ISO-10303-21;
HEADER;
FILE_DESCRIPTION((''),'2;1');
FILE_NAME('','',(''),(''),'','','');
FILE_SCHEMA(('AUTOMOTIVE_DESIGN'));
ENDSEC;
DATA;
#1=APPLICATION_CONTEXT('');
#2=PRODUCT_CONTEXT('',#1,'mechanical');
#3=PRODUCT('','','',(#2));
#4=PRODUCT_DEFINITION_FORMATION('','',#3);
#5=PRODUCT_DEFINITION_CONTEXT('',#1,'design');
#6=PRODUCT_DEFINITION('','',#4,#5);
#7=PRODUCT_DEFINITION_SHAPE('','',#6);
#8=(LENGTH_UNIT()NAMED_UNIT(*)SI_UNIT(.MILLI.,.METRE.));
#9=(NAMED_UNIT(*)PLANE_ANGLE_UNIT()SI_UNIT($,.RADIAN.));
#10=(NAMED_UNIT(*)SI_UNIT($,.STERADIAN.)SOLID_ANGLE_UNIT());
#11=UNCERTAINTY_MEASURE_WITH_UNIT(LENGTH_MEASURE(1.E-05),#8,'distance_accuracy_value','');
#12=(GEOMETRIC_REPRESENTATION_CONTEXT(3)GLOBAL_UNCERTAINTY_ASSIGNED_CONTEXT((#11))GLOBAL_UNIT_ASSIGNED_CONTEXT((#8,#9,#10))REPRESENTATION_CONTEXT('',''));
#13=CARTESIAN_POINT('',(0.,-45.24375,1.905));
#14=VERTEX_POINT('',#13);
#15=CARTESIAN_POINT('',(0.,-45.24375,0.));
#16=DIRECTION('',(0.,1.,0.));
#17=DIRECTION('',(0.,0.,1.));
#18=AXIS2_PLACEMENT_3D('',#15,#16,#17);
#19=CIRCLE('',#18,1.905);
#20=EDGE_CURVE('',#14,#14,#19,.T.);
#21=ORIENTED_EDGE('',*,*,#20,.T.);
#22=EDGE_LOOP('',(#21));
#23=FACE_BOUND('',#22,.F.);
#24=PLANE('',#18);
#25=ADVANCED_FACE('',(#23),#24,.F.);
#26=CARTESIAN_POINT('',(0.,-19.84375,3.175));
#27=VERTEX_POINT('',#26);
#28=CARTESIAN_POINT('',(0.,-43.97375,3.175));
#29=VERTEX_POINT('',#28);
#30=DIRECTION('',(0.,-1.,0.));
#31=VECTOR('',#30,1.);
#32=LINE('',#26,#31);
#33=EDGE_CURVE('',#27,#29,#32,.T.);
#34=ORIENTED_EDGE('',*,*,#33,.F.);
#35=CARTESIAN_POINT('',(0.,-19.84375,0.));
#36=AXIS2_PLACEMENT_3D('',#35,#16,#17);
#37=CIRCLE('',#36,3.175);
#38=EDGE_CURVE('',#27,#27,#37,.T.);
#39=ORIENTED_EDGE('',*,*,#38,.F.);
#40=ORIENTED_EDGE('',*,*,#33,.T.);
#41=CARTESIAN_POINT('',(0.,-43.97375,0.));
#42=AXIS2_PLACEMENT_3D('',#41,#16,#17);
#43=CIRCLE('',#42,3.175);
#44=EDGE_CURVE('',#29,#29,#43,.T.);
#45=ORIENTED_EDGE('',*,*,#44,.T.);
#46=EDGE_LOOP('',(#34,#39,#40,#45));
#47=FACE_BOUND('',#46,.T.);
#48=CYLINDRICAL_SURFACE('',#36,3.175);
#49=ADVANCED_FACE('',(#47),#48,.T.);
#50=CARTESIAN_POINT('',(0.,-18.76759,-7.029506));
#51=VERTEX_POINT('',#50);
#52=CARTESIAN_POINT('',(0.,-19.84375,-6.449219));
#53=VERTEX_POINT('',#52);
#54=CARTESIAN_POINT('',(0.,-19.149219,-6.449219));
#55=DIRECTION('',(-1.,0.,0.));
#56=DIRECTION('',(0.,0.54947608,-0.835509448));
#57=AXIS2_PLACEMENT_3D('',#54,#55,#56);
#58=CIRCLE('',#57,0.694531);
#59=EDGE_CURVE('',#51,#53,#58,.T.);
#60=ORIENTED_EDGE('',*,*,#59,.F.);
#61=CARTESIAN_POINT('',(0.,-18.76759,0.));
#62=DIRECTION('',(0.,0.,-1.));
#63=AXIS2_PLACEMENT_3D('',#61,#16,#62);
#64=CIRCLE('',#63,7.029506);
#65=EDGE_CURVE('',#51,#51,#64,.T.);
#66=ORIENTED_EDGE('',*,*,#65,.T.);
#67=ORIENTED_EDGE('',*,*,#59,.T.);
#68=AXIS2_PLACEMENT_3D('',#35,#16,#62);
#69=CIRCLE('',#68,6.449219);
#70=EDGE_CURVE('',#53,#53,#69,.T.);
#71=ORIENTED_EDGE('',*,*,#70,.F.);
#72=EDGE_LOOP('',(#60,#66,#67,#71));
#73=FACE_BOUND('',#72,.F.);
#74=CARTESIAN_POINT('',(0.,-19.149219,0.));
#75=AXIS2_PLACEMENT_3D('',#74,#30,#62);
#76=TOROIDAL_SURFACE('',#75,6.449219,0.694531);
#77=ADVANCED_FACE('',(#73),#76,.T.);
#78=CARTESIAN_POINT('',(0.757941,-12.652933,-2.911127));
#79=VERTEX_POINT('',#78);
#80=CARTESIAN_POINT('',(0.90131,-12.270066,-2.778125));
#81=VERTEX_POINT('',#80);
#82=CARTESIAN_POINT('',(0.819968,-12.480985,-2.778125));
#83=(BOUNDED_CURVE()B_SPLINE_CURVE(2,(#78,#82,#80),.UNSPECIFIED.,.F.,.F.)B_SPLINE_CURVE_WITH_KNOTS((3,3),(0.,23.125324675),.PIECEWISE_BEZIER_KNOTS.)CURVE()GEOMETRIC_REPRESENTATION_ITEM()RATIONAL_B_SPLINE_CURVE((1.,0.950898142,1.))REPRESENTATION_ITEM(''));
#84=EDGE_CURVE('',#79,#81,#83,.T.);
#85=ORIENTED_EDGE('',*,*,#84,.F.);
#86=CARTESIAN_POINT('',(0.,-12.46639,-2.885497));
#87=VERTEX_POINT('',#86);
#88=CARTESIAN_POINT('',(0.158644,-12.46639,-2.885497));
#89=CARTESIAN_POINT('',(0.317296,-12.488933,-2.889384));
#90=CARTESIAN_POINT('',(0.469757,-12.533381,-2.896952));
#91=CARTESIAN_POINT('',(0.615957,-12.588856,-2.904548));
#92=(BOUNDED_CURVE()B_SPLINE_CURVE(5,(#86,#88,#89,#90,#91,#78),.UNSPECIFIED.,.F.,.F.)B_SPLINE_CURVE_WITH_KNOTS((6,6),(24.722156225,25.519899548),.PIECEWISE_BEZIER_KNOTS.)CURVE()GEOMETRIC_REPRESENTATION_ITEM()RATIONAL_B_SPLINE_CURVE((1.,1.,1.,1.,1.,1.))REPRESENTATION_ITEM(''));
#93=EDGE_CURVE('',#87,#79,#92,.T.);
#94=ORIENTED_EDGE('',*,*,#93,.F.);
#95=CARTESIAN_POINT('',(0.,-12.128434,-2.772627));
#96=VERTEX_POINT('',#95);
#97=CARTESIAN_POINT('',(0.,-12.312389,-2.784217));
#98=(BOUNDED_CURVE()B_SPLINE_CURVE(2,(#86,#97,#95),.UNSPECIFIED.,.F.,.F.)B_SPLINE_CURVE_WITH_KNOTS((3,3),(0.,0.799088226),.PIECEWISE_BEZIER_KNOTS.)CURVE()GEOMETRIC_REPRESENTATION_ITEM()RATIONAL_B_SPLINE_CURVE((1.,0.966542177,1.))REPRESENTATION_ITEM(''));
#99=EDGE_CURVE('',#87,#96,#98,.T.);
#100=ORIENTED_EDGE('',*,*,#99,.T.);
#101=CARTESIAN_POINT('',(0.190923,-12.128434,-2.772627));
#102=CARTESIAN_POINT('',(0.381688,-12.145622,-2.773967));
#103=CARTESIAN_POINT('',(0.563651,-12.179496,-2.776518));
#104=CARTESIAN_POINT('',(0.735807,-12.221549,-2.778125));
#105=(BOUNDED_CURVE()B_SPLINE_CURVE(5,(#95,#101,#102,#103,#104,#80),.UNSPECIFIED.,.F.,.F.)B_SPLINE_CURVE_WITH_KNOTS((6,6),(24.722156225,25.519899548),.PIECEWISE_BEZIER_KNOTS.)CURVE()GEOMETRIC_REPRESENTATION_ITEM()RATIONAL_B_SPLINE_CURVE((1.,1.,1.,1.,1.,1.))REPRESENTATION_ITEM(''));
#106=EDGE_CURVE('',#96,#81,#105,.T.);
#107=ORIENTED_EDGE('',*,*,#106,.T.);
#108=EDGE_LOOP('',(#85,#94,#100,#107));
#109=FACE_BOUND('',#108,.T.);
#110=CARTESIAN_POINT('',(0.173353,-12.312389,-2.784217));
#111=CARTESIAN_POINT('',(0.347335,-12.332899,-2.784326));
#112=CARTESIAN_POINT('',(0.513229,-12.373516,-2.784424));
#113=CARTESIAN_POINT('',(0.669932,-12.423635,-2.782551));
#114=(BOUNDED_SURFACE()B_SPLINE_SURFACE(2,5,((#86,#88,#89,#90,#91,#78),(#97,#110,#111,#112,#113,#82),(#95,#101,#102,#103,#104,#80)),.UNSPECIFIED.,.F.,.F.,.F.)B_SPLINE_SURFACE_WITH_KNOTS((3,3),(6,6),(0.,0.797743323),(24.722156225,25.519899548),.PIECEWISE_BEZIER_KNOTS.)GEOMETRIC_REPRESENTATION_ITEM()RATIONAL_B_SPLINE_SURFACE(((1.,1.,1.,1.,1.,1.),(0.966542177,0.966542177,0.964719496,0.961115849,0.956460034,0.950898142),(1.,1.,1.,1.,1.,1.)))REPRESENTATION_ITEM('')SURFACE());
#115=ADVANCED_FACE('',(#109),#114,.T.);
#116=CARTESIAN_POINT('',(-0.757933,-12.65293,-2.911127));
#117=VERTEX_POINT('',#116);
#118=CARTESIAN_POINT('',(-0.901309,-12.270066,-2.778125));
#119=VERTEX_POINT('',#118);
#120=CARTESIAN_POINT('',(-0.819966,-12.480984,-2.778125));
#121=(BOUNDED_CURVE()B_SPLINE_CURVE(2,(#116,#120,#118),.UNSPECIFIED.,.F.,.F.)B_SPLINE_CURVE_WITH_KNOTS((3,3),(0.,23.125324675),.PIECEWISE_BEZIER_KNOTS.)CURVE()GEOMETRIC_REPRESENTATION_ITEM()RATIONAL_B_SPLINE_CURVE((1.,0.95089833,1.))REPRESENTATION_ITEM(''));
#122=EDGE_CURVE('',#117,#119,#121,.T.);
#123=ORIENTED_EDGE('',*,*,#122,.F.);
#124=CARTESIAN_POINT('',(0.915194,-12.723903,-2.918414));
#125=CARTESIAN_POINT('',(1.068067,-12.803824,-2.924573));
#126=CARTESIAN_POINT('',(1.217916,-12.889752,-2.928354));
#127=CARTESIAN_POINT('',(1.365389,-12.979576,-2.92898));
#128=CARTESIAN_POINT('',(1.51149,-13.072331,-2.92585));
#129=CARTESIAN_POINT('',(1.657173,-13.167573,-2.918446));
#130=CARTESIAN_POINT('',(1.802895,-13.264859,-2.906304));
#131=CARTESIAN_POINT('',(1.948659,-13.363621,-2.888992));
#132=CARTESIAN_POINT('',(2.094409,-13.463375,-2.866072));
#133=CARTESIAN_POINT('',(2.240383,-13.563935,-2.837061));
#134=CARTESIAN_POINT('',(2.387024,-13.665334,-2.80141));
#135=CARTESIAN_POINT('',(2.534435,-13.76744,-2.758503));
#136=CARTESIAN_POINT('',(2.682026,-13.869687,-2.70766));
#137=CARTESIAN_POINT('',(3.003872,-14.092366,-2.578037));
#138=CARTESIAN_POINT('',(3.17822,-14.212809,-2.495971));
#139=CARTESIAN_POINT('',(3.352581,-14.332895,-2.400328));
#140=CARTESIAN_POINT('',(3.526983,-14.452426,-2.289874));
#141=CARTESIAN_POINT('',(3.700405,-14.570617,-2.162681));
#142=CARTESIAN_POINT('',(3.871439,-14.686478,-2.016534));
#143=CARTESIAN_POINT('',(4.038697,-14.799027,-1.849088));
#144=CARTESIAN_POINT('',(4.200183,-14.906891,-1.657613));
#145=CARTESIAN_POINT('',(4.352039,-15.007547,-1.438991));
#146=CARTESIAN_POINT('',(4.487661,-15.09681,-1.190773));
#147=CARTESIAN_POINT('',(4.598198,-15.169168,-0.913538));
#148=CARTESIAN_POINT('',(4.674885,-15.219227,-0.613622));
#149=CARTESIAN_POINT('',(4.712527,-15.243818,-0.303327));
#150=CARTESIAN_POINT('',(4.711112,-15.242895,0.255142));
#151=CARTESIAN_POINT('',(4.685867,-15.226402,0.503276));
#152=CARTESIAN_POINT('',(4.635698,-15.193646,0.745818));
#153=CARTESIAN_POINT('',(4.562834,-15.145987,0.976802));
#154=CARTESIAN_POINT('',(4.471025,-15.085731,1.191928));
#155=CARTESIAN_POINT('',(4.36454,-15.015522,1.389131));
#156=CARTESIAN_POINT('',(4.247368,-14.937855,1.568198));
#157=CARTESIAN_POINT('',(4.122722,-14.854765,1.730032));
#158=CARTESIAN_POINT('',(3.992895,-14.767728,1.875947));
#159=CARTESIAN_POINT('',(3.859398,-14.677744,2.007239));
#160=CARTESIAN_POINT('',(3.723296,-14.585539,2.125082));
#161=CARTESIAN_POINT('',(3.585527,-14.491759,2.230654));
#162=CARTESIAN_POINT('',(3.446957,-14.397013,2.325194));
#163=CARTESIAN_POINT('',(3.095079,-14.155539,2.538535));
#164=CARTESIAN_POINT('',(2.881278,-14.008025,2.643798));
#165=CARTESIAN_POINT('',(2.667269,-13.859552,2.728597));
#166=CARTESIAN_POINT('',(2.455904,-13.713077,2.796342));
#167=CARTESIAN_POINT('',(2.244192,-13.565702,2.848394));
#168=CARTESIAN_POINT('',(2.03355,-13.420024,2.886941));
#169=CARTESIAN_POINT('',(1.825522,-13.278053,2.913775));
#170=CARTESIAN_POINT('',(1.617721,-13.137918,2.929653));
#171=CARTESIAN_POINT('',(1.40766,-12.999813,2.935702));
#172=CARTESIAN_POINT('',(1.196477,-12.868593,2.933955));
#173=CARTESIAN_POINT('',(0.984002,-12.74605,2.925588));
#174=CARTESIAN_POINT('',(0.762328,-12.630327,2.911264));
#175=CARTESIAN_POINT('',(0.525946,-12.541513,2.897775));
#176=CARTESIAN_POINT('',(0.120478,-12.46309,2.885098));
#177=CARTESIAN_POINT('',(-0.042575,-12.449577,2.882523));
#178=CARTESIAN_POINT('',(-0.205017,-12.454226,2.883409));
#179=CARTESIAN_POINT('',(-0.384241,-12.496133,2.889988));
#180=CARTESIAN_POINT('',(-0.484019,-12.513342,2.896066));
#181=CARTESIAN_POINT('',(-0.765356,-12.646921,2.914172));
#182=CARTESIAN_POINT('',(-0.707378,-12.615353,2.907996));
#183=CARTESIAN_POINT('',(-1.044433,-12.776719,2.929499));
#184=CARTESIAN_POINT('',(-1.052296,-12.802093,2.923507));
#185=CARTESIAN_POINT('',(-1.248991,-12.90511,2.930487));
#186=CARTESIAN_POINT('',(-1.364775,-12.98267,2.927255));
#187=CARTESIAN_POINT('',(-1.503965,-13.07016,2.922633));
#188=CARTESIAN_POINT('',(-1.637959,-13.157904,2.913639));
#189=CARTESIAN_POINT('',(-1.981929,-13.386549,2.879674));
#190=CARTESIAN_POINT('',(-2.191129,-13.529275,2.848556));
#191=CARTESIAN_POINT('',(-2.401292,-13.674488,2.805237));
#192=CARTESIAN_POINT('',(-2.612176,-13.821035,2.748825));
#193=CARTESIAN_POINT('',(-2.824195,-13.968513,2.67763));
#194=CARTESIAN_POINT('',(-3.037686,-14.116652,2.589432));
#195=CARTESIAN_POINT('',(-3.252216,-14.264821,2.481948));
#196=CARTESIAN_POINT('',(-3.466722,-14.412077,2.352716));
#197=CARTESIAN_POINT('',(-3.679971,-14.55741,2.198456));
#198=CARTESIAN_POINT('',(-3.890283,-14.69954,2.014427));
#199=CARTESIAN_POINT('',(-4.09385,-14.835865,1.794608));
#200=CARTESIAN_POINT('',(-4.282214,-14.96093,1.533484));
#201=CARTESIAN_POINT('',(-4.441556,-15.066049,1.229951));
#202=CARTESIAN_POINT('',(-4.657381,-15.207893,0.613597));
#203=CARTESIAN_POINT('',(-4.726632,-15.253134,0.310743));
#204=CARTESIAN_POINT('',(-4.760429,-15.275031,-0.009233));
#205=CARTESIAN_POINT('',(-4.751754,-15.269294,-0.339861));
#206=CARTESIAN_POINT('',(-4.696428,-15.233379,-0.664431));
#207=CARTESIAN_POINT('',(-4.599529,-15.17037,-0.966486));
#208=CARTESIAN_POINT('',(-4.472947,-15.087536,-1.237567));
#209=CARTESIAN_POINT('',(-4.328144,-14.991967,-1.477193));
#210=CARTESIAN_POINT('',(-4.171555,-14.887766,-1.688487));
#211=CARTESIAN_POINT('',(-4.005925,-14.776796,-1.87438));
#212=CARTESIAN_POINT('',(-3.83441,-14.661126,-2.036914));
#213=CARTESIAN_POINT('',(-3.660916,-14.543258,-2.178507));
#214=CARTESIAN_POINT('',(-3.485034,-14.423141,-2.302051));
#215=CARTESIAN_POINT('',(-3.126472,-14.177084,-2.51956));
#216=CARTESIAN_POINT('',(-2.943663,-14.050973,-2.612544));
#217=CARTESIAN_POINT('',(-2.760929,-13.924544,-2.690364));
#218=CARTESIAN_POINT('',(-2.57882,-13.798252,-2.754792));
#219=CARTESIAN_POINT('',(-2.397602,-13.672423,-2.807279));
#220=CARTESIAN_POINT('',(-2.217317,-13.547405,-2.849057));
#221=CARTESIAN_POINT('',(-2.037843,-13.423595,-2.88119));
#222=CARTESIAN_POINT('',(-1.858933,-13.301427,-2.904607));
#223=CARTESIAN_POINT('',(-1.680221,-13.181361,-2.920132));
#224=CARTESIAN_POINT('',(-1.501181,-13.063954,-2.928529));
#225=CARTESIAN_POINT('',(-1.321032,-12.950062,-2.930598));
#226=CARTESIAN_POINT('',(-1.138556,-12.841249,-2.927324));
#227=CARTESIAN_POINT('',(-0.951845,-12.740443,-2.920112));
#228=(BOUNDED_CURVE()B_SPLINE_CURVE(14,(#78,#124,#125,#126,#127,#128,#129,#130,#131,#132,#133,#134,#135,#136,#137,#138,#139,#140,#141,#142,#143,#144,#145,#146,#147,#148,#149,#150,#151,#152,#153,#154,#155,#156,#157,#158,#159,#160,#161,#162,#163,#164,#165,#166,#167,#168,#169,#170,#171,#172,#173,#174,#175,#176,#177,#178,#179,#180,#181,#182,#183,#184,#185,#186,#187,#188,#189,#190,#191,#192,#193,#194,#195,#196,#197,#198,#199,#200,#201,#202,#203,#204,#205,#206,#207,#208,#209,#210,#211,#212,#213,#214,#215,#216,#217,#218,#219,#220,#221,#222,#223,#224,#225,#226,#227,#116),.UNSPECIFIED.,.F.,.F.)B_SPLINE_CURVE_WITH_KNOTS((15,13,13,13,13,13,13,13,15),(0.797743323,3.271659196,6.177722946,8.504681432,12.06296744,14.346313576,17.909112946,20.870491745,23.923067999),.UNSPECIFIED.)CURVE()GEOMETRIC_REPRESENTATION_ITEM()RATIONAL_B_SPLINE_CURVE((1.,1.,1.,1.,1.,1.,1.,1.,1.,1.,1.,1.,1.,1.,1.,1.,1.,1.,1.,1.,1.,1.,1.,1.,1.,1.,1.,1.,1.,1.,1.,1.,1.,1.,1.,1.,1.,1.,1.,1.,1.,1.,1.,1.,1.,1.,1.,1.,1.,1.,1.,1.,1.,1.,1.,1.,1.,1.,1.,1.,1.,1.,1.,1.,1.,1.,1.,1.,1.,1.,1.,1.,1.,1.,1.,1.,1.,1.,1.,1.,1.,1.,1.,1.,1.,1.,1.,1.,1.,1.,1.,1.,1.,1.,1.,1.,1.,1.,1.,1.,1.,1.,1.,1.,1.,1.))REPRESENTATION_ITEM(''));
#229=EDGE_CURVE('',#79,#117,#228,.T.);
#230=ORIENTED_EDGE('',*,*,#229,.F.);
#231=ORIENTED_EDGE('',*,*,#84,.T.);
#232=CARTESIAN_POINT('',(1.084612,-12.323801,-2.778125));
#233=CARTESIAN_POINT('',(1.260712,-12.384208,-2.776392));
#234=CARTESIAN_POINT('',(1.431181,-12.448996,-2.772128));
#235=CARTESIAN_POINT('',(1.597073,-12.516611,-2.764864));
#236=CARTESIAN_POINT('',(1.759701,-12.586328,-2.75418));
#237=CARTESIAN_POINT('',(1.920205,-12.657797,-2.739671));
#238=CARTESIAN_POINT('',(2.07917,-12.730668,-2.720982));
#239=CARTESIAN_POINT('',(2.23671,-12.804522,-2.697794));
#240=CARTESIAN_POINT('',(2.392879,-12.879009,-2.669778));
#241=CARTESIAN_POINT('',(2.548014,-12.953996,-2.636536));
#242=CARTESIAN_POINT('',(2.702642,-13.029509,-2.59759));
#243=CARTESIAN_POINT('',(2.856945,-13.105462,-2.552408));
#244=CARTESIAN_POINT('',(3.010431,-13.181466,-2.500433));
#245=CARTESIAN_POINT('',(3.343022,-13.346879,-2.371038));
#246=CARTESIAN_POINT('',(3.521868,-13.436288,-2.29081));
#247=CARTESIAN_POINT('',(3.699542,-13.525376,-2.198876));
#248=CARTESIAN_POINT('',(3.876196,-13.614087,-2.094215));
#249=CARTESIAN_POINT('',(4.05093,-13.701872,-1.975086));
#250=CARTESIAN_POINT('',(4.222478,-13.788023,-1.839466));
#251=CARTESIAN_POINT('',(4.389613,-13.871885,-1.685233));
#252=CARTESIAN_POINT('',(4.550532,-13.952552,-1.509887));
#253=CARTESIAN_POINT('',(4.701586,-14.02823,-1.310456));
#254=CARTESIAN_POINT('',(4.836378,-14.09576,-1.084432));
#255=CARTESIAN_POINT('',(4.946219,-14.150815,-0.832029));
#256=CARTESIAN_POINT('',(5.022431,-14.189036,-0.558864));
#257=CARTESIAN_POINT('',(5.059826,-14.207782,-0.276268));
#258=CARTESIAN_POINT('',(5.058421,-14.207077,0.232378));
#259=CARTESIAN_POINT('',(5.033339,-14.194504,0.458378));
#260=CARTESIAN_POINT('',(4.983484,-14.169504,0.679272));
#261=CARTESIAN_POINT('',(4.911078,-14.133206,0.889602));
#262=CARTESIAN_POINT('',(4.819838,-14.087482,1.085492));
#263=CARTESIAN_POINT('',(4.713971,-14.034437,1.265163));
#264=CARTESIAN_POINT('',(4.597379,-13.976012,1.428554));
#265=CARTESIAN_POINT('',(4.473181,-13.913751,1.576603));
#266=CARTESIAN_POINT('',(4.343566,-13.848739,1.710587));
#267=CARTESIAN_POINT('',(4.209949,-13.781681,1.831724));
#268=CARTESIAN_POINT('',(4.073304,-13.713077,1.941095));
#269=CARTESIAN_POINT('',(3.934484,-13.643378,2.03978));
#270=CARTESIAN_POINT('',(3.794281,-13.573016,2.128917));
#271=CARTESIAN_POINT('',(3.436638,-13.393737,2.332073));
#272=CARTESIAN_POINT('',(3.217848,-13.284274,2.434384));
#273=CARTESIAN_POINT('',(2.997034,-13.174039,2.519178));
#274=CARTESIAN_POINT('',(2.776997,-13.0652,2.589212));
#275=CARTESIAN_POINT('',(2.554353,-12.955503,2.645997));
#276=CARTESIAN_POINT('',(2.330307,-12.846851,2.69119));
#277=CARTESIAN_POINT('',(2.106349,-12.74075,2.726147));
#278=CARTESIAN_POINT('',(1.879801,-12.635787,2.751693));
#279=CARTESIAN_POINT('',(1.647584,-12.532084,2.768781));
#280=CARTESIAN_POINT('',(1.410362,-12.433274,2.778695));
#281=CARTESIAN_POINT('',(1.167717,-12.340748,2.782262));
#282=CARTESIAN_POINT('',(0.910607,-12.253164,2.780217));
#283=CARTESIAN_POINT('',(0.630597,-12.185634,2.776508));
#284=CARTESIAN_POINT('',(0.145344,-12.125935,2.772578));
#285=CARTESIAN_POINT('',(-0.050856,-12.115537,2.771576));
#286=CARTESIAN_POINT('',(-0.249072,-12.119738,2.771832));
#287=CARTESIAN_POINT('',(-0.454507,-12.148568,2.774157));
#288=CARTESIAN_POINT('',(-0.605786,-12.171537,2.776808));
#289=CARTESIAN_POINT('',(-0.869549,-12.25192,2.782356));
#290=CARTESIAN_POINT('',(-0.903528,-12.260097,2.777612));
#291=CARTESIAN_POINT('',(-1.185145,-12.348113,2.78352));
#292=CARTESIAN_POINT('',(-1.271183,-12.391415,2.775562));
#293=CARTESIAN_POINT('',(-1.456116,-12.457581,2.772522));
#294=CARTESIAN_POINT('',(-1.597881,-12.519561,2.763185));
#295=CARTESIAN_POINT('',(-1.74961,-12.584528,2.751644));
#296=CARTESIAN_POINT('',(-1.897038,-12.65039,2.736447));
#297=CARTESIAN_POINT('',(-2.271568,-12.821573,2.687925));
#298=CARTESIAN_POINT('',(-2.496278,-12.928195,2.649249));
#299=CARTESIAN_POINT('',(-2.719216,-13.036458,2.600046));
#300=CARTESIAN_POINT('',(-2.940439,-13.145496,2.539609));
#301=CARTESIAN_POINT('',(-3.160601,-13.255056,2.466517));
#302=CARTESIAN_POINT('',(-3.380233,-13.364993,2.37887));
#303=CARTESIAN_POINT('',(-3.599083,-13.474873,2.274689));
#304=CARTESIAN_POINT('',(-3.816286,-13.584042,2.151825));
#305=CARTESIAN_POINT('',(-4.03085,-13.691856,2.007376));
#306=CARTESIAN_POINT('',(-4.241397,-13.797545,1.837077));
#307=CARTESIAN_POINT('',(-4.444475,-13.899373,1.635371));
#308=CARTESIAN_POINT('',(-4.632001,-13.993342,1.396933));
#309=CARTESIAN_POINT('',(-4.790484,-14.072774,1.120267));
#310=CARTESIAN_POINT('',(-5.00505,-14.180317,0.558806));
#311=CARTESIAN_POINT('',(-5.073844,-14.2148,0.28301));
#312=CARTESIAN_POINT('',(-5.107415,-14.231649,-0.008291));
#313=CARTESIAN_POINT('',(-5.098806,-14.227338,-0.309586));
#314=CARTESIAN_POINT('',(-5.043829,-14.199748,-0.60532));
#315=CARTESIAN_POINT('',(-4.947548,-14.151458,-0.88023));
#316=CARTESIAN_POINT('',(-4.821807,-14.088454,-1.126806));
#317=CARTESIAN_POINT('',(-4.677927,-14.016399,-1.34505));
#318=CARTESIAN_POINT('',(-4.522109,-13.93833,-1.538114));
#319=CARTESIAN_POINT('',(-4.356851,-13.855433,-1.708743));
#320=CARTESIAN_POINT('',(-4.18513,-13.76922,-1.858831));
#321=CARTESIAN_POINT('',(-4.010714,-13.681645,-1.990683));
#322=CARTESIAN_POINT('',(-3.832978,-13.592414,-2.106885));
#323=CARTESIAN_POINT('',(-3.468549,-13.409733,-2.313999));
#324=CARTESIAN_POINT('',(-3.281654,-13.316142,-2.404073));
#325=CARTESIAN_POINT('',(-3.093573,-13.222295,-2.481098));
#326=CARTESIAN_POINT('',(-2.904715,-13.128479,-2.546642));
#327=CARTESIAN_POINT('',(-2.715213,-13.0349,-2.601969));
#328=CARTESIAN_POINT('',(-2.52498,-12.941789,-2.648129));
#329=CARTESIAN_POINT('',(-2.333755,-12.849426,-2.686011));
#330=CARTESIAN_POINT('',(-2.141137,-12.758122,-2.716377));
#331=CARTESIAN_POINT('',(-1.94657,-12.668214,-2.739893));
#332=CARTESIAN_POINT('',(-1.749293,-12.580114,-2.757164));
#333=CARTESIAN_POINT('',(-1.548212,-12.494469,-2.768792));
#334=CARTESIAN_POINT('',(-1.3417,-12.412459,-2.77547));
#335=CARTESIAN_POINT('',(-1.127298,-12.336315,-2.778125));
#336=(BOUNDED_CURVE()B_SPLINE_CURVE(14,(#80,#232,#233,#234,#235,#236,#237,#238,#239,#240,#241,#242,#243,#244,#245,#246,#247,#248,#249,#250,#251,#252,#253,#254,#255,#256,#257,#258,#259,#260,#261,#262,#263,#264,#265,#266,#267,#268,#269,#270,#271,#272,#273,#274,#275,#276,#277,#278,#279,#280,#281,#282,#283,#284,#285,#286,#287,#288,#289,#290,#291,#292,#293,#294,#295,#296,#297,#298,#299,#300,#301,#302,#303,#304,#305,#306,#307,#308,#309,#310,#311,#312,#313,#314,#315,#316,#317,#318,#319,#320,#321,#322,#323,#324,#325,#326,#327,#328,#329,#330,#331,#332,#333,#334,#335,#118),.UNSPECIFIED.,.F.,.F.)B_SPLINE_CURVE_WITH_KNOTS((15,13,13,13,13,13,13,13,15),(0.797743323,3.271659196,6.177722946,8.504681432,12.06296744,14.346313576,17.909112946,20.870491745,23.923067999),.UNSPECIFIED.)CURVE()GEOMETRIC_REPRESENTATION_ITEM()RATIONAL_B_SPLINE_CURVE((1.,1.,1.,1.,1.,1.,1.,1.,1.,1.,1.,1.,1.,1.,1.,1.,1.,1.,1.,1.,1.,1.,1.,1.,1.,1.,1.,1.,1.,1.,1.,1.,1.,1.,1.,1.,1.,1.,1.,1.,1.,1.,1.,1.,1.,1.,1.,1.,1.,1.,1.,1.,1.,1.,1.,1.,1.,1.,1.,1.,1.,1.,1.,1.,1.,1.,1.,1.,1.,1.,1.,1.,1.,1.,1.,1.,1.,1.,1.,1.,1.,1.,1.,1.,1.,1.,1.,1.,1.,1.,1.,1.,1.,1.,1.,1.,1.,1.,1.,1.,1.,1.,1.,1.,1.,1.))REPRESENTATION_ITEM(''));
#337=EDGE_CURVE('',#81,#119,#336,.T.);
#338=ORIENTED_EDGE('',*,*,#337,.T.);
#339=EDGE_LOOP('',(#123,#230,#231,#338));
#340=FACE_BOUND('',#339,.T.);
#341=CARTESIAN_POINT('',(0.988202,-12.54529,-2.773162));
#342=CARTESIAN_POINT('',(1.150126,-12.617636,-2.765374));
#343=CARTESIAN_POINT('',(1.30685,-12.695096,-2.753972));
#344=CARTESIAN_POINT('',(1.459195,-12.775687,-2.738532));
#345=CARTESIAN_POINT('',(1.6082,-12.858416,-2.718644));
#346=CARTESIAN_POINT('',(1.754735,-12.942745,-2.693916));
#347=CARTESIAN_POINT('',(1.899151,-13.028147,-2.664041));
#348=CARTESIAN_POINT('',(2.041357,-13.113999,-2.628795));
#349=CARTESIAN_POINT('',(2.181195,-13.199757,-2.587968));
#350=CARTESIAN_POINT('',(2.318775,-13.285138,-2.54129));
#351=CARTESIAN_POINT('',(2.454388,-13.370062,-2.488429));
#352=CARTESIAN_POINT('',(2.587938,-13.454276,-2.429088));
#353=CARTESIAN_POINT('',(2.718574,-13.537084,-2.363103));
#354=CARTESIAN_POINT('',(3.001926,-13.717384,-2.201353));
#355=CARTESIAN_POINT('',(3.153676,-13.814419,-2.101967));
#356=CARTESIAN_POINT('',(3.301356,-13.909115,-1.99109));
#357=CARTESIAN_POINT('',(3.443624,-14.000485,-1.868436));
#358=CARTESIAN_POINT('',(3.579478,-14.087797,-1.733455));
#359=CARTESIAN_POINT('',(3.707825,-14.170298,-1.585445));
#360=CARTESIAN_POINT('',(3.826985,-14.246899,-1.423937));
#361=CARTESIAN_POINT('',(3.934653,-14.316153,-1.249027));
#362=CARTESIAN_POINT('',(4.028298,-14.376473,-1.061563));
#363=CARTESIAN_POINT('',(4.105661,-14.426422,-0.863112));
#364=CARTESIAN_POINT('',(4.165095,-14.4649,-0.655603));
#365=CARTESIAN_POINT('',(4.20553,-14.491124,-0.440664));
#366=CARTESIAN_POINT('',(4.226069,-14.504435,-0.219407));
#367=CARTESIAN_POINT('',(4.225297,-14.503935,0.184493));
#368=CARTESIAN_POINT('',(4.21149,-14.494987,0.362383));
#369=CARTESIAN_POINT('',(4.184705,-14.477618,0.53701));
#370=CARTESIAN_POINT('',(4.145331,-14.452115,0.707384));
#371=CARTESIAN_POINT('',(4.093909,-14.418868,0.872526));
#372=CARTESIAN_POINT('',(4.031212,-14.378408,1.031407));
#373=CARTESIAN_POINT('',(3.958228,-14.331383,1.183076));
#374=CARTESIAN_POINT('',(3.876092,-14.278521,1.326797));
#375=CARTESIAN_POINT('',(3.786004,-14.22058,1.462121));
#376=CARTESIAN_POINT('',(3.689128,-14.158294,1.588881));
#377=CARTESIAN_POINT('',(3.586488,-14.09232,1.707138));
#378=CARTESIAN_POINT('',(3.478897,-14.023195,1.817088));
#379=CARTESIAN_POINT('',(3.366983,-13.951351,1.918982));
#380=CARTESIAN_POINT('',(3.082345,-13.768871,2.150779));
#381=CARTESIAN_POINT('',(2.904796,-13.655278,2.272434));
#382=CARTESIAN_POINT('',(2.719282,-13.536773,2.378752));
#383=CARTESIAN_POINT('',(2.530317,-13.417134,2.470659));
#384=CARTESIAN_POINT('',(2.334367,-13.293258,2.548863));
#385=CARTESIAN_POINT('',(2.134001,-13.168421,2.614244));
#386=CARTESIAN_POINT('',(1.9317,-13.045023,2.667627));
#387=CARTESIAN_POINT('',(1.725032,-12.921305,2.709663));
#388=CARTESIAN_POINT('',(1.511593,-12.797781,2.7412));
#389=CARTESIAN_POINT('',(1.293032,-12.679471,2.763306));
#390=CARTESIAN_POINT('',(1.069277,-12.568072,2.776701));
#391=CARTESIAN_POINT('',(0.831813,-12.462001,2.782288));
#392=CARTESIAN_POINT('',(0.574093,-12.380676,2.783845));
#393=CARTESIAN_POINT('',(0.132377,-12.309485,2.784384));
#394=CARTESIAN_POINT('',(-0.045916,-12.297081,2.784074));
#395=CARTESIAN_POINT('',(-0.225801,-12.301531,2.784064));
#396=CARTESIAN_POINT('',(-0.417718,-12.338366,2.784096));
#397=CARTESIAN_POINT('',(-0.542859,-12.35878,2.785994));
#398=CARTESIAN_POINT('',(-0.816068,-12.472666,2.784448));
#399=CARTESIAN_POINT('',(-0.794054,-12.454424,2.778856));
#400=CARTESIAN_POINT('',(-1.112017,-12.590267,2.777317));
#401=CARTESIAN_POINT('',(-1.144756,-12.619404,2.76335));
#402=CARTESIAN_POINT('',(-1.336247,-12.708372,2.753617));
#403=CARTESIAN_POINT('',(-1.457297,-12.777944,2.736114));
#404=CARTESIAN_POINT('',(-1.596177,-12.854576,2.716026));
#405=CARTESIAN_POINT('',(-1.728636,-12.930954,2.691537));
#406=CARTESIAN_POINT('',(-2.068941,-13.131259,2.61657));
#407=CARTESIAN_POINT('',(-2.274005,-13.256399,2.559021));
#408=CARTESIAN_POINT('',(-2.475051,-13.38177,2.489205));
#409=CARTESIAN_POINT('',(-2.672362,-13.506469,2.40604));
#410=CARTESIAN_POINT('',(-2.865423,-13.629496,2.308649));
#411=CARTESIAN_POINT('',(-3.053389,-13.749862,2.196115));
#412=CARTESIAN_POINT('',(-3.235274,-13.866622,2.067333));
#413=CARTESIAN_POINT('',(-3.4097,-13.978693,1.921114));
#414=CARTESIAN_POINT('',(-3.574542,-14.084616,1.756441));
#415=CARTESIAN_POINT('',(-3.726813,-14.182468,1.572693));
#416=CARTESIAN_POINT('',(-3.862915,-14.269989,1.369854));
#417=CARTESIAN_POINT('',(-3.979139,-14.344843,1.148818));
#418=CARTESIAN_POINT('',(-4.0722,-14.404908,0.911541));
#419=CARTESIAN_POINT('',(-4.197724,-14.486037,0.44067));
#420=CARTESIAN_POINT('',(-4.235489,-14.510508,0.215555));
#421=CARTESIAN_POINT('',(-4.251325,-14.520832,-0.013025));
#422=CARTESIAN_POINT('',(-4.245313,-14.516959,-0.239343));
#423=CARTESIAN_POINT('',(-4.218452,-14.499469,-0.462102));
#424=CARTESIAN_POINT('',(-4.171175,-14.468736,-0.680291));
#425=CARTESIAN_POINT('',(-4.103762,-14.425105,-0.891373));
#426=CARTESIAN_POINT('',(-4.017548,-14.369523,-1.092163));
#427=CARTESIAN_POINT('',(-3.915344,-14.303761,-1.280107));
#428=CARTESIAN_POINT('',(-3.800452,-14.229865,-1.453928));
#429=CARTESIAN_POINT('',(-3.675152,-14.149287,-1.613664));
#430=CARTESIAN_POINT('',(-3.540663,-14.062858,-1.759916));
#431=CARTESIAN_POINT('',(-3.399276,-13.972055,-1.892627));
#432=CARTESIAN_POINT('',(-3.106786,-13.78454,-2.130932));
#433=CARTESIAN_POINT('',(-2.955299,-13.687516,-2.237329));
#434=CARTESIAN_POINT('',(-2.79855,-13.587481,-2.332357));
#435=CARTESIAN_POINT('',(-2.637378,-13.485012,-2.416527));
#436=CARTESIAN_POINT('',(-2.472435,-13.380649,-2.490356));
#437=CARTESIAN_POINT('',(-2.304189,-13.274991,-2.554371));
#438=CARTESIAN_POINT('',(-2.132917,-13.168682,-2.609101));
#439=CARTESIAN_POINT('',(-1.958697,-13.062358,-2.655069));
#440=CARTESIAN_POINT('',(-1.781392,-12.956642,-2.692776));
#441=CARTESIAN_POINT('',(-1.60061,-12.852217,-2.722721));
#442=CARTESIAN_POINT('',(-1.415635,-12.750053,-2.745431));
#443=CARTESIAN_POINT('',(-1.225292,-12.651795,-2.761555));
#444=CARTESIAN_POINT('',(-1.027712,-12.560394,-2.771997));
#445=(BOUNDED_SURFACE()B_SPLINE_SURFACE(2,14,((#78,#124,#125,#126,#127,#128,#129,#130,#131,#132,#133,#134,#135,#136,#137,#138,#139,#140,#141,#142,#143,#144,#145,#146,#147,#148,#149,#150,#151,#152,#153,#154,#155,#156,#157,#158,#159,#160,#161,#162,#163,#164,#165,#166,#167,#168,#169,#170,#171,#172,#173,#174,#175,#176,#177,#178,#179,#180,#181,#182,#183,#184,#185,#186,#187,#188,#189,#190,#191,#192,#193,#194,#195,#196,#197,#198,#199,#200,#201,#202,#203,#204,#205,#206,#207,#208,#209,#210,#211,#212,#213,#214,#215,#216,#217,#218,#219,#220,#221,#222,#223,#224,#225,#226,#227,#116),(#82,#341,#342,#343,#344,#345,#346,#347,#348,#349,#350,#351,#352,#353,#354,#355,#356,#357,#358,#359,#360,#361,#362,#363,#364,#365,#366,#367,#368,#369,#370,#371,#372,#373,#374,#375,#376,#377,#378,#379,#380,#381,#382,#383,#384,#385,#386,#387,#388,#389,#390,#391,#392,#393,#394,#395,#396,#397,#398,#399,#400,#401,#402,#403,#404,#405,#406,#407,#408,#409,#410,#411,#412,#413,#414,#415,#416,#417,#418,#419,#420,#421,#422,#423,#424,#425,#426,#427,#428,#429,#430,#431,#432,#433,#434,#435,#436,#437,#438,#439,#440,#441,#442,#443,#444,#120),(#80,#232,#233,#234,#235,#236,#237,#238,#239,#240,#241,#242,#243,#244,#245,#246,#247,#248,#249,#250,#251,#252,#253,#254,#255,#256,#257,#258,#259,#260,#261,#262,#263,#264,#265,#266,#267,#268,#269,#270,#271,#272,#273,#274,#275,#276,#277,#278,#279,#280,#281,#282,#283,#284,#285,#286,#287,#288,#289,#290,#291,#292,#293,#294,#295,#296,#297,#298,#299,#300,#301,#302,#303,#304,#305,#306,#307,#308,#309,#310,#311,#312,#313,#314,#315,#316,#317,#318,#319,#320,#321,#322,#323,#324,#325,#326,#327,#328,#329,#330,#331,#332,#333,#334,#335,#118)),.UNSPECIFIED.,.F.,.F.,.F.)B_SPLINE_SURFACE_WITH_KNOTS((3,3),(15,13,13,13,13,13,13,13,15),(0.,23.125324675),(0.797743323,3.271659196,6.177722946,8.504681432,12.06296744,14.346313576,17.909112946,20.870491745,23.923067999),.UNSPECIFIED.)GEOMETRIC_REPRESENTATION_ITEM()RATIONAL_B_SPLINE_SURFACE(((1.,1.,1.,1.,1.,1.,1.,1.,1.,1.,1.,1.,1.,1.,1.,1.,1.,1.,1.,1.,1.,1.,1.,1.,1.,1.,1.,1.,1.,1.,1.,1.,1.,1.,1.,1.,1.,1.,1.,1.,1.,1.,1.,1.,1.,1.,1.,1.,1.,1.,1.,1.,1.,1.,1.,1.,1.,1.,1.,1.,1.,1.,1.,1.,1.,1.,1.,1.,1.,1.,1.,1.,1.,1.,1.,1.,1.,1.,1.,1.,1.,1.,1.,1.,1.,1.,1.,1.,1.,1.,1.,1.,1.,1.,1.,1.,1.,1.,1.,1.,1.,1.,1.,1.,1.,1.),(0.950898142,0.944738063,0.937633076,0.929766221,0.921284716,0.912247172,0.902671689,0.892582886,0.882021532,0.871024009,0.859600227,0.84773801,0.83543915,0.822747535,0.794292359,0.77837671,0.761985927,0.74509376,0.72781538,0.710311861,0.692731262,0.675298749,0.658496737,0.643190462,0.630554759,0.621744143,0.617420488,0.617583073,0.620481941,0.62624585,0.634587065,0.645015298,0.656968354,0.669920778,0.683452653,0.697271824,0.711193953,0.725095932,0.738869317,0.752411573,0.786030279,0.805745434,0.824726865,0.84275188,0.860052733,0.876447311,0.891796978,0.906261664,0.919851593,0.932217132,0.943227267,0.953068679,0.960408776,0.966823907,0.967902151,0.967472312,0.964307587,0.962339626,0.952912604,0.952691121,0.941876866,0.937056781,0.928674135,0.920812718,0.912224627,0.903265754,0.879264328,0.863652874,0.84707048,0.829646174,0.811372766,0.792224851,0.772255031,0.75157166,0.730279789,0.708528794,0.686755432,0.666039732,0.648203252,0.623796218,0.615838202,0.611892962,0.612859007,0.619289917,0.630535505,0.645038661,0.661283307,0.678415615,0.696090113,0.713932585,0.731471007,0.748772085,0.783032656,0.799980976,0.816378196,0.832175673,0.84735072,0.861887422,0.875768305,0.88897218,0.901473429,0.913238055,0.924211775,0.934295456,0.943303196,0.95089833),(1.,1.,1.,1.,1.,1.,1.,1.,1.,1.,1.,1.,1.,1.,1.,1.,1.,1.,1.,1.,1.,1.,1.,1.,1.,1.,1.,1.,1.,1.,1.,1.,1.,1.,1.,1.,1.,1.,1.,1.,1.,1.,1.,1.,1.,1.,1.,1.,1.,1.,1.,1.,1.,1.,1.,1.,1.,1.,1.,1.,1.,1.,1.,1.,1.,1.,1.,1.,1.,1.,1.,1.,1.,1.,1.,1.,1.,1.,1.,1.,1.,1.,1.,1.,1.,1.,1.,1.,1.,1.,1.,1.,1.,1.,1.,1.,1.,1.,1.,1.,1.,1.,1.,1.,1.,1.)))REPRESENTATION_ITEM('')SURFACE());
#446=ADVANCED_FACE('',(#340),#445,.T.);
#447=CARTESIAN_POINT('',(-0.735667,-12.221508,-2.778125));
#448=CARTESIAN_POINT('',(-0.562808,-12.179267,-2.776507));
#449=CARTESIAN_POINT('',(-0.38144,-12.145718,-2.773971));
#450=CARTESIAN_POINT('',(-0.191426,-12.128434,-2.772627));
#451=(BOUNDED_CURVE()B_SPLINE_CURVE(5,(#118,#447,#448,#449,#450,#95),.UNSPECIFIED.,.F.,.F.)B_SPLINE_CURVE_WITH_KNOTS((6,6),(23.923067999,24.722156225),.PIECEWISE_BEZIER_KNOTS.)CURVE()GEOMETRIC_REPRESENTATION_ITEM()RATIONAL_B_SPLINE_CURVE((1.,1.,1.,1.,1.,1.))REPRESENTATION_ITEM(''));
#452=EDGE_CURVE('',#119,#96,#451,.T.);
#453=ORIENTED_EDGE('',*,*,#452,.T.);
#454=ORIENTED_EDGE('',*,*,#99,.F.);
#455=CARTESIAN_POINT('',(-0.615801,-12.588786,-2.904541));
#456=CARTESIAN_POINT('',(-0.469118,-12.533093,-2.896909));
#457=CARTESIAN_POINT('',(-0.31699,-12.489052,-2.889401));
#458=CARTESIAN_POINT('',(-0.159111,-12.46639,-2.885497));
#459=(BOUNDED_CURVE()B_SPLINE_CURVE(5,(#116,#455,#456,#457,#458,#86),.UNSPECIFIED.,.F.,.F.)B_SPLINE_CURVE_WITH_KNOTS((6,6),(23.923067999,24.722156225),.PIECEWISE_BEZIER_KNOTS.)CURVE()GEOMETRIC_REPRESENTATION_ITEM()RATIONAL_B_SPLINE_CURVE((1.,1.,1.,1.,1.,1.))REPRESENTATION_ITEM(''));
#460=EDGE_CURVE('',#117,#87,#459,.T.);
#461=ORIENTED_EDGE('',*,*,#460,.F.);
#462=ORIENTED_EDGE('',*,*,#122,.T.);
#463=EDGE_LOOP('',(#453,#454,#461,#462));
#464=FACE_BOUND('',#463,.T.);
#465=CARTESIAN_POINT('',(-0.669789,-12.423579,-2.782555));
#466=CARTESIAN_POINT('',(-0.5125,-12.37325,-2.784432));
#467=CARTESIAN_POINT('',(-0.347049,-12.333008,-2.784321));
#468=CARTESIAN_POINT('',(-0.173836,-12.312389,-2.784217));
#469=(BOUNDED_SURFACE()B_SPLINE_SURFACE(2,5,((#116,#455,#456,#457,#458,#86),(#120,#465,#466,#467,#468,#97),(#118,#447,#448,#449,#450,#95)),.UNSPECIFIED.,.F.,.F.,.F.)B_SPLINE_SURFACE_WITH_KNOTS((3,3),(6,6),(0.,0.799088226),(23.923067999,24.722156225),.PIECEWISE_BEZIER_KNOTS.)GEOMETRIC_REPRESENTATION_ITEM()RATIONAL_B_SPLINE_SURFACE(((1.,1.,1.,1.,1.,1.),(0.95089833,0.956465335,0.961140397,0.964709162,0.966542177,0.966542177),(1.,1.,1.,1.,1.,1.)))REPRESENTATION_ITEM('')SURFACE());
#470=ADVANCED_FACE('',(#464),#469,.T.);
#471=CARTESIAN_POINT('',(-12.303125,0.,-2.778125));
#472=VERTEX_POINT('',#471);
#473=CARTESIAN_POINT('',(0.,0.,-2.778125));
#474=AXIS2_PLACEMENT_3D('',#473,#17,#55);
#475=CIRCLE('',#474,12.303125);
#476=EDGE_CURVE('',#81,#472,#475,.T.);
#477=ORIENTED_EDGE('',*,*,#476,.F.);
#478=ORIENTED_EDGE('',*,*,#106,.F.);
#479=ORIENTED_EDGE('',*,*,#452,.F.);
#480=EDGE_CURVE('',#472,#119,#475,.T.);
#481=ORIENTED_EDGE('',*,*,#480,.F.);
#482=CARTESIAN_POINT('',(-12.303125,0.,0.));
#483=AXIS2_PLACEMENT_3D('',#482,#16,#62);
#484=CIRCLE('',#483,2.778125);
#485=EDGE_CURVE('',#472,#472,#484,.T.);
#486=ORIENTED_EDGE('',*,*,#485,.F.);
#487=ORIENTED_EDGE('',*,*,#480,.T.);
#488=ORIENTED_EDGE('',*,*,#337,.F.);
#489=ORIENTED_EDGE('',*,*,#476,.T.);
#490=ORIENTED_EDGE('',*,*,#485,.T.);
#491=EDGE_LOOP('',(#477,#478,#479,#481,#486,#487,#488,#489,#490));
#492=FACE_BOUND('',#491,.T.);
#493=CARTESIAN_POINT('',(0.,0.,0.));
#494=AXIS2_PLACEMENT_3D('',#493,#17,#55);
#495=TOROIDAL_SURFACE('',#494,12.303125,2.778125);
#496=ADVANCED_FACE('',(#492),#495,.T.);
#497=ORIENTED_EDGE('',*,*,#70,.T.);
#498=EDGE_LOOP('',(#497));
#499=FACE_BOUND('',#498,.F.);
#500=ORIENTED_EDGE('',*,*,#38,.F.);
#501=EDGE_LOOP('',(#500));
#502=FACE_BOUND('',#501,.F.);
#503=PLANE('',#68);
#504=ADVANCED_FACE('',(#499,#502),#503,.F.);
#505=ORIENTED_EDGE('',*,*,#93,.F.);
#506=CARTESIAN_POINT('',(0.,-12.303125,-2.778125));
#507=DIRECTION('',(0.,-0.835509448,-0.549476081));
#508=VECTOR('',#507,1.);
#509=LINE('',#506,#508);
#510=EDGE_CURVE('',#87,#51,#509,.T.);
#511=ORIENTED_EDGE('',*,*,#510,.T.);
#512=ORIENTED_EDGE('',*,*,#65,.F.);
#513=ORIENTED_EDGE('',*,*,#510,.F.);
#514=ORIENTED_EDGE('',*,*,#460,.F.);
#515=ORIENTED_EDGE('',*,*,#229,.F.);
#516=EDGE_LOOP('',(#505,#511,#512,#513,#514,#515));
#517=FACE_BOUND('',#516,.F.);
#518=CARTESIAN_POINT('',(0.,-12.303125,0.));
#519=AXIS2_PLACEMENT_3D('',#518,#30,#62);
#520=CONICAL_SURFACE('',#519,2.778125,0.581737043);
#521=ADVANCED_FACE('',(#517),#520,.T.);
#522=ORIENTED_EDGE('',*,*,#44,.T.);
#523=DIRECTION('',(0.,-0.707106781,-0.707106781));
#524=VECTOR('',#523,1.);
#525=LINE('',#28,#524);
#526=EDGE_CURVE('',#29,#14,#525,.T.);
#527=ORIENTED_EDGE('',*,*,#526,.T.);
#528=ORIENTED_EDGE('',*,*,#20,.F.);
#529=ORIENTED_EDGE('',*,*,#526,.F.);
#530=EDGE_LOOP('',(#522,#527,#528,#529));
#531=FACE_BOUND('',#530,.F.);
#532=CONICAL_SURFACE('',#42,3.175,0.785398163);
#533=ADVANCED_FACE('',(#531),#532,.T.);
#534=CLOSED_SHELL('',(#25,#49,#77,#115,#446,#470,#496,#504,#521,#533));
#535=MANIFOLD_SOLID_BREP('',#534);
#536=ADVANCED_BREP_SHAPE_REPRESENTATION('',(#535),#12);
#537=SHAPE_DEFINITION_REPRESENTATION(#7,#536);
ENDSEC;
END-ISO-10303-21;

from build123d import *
from build123d.topology import SkipClean

# Parameters (mm, degrees)
BOSS_EXTRUDE1_START = -19.84375
SKETCH2_R           = 3.175
BOSS_EXTRUDE1_DEPTH = 25.4
SKETCH6_R           = 2.778125
SKETCH7_R           = 3.175
BOSS_EXTRUDE2_DEPTH = 4.7625
FILLET1_R           = 0.69453125
CHAMFER1_SIZE       = 1.27


with BuildPart() as part:
    # Sketch2 → Boss-Extrude1 (new body)
    with BuildSketch(Plane(origin=(0, 0, 0), x_dir=(1, 0, 0), z_dir=(0, 1, 0)).offset(BOSS_EXTRUDE1_START)):
        with Locations(Location((0, 0, 0), (0, 0, 270))):
            Circle(SKETCH2_R)
    extrude(amount=-BOSS_EXTRUDE1_DEPTH)

    # Sketch7 → Boss-Extrude2 (add)
    with BuildSketch(Plane(origin=(0, -19.84375, 0), x_dir=(1, 0, 0), z_dir=(0, 1, 0))):
        with Locations(Location((0, 0, 0), (0, 0, 270))):
            Circle(SKETCH7_R)
    extrude(amount=BOSS_EXTRUDE2_DEPTH)



with BuildPart() as body_2:
    # Sketch6 → Revolve1 (revolve)
    with BuildSketch(Plane(origin=(0, 0, 0), x_dir=(0, 0, -1), z_dir=(1, 0, 0)), mode=Mode.PRIVATE) as revolve1_sk:
        with Locations((0, 12.303125)):
            Circle(SKETCH6_R)
    revolve(revolve1_sk.sketch.rotate(Axis((0, 0, -7.858125), (0, 0, 1)), 90), axis=Axis((0, 0, -7.858125), (0, 0, 1)))


with BuildPart() as part_1:
    with SkipClean():  # the faces are left unmerged after this step: merging them gives an invalid solid
        add(part.part)

        add(body_2.part)  # Revolve2 merges body 2
        # Sketch8 → Revolve2 (revolve)
        with BuildSketch(Plane.XY, mode=Mode.PRIVATE) as revolve2_sk:
            with BuildLine():
                Line((0, -19.84375), (0, -12.303125))
                Line((0, -12.303125), (-2.778125, -12.303125))
                Line((-2.778125, -12.303125), (-7.029506171, -18.767590441))
                ThreePointArc((-7.029506171, -18.767590441), (-7.060539633, -19.478855573), (-6.44921875, -19.84375))
                Line((-6.44921875, -19.84375), (0, -19.84375))
            make_face()
        revolve(revolve2_sk.sketch.rotate(Axis((0, -19.84375, 0), (0, 1, 0)), 270), axis=Axis((0, -19.84375, 0), (0, 1, 0)))

    # Fillet1
    fillet1_edges = [part_1.edges().sort_by_distance(p)[0] for p in [
        (4.210740224, -14.481497448, 6.6e-08),
    ]]
    fillet(fillet1_edges, radius=FILLET1_R)

    # Chamfer1
    chamfer1_edges = [part_1.edges().sort_by_distance(p)[0] for p in [
        (0, -45.24375, -3.175),
    ]]
    chamfer(chamfer1_edges, length=CHAMFER1_SIZE)


solid = part_1.part
